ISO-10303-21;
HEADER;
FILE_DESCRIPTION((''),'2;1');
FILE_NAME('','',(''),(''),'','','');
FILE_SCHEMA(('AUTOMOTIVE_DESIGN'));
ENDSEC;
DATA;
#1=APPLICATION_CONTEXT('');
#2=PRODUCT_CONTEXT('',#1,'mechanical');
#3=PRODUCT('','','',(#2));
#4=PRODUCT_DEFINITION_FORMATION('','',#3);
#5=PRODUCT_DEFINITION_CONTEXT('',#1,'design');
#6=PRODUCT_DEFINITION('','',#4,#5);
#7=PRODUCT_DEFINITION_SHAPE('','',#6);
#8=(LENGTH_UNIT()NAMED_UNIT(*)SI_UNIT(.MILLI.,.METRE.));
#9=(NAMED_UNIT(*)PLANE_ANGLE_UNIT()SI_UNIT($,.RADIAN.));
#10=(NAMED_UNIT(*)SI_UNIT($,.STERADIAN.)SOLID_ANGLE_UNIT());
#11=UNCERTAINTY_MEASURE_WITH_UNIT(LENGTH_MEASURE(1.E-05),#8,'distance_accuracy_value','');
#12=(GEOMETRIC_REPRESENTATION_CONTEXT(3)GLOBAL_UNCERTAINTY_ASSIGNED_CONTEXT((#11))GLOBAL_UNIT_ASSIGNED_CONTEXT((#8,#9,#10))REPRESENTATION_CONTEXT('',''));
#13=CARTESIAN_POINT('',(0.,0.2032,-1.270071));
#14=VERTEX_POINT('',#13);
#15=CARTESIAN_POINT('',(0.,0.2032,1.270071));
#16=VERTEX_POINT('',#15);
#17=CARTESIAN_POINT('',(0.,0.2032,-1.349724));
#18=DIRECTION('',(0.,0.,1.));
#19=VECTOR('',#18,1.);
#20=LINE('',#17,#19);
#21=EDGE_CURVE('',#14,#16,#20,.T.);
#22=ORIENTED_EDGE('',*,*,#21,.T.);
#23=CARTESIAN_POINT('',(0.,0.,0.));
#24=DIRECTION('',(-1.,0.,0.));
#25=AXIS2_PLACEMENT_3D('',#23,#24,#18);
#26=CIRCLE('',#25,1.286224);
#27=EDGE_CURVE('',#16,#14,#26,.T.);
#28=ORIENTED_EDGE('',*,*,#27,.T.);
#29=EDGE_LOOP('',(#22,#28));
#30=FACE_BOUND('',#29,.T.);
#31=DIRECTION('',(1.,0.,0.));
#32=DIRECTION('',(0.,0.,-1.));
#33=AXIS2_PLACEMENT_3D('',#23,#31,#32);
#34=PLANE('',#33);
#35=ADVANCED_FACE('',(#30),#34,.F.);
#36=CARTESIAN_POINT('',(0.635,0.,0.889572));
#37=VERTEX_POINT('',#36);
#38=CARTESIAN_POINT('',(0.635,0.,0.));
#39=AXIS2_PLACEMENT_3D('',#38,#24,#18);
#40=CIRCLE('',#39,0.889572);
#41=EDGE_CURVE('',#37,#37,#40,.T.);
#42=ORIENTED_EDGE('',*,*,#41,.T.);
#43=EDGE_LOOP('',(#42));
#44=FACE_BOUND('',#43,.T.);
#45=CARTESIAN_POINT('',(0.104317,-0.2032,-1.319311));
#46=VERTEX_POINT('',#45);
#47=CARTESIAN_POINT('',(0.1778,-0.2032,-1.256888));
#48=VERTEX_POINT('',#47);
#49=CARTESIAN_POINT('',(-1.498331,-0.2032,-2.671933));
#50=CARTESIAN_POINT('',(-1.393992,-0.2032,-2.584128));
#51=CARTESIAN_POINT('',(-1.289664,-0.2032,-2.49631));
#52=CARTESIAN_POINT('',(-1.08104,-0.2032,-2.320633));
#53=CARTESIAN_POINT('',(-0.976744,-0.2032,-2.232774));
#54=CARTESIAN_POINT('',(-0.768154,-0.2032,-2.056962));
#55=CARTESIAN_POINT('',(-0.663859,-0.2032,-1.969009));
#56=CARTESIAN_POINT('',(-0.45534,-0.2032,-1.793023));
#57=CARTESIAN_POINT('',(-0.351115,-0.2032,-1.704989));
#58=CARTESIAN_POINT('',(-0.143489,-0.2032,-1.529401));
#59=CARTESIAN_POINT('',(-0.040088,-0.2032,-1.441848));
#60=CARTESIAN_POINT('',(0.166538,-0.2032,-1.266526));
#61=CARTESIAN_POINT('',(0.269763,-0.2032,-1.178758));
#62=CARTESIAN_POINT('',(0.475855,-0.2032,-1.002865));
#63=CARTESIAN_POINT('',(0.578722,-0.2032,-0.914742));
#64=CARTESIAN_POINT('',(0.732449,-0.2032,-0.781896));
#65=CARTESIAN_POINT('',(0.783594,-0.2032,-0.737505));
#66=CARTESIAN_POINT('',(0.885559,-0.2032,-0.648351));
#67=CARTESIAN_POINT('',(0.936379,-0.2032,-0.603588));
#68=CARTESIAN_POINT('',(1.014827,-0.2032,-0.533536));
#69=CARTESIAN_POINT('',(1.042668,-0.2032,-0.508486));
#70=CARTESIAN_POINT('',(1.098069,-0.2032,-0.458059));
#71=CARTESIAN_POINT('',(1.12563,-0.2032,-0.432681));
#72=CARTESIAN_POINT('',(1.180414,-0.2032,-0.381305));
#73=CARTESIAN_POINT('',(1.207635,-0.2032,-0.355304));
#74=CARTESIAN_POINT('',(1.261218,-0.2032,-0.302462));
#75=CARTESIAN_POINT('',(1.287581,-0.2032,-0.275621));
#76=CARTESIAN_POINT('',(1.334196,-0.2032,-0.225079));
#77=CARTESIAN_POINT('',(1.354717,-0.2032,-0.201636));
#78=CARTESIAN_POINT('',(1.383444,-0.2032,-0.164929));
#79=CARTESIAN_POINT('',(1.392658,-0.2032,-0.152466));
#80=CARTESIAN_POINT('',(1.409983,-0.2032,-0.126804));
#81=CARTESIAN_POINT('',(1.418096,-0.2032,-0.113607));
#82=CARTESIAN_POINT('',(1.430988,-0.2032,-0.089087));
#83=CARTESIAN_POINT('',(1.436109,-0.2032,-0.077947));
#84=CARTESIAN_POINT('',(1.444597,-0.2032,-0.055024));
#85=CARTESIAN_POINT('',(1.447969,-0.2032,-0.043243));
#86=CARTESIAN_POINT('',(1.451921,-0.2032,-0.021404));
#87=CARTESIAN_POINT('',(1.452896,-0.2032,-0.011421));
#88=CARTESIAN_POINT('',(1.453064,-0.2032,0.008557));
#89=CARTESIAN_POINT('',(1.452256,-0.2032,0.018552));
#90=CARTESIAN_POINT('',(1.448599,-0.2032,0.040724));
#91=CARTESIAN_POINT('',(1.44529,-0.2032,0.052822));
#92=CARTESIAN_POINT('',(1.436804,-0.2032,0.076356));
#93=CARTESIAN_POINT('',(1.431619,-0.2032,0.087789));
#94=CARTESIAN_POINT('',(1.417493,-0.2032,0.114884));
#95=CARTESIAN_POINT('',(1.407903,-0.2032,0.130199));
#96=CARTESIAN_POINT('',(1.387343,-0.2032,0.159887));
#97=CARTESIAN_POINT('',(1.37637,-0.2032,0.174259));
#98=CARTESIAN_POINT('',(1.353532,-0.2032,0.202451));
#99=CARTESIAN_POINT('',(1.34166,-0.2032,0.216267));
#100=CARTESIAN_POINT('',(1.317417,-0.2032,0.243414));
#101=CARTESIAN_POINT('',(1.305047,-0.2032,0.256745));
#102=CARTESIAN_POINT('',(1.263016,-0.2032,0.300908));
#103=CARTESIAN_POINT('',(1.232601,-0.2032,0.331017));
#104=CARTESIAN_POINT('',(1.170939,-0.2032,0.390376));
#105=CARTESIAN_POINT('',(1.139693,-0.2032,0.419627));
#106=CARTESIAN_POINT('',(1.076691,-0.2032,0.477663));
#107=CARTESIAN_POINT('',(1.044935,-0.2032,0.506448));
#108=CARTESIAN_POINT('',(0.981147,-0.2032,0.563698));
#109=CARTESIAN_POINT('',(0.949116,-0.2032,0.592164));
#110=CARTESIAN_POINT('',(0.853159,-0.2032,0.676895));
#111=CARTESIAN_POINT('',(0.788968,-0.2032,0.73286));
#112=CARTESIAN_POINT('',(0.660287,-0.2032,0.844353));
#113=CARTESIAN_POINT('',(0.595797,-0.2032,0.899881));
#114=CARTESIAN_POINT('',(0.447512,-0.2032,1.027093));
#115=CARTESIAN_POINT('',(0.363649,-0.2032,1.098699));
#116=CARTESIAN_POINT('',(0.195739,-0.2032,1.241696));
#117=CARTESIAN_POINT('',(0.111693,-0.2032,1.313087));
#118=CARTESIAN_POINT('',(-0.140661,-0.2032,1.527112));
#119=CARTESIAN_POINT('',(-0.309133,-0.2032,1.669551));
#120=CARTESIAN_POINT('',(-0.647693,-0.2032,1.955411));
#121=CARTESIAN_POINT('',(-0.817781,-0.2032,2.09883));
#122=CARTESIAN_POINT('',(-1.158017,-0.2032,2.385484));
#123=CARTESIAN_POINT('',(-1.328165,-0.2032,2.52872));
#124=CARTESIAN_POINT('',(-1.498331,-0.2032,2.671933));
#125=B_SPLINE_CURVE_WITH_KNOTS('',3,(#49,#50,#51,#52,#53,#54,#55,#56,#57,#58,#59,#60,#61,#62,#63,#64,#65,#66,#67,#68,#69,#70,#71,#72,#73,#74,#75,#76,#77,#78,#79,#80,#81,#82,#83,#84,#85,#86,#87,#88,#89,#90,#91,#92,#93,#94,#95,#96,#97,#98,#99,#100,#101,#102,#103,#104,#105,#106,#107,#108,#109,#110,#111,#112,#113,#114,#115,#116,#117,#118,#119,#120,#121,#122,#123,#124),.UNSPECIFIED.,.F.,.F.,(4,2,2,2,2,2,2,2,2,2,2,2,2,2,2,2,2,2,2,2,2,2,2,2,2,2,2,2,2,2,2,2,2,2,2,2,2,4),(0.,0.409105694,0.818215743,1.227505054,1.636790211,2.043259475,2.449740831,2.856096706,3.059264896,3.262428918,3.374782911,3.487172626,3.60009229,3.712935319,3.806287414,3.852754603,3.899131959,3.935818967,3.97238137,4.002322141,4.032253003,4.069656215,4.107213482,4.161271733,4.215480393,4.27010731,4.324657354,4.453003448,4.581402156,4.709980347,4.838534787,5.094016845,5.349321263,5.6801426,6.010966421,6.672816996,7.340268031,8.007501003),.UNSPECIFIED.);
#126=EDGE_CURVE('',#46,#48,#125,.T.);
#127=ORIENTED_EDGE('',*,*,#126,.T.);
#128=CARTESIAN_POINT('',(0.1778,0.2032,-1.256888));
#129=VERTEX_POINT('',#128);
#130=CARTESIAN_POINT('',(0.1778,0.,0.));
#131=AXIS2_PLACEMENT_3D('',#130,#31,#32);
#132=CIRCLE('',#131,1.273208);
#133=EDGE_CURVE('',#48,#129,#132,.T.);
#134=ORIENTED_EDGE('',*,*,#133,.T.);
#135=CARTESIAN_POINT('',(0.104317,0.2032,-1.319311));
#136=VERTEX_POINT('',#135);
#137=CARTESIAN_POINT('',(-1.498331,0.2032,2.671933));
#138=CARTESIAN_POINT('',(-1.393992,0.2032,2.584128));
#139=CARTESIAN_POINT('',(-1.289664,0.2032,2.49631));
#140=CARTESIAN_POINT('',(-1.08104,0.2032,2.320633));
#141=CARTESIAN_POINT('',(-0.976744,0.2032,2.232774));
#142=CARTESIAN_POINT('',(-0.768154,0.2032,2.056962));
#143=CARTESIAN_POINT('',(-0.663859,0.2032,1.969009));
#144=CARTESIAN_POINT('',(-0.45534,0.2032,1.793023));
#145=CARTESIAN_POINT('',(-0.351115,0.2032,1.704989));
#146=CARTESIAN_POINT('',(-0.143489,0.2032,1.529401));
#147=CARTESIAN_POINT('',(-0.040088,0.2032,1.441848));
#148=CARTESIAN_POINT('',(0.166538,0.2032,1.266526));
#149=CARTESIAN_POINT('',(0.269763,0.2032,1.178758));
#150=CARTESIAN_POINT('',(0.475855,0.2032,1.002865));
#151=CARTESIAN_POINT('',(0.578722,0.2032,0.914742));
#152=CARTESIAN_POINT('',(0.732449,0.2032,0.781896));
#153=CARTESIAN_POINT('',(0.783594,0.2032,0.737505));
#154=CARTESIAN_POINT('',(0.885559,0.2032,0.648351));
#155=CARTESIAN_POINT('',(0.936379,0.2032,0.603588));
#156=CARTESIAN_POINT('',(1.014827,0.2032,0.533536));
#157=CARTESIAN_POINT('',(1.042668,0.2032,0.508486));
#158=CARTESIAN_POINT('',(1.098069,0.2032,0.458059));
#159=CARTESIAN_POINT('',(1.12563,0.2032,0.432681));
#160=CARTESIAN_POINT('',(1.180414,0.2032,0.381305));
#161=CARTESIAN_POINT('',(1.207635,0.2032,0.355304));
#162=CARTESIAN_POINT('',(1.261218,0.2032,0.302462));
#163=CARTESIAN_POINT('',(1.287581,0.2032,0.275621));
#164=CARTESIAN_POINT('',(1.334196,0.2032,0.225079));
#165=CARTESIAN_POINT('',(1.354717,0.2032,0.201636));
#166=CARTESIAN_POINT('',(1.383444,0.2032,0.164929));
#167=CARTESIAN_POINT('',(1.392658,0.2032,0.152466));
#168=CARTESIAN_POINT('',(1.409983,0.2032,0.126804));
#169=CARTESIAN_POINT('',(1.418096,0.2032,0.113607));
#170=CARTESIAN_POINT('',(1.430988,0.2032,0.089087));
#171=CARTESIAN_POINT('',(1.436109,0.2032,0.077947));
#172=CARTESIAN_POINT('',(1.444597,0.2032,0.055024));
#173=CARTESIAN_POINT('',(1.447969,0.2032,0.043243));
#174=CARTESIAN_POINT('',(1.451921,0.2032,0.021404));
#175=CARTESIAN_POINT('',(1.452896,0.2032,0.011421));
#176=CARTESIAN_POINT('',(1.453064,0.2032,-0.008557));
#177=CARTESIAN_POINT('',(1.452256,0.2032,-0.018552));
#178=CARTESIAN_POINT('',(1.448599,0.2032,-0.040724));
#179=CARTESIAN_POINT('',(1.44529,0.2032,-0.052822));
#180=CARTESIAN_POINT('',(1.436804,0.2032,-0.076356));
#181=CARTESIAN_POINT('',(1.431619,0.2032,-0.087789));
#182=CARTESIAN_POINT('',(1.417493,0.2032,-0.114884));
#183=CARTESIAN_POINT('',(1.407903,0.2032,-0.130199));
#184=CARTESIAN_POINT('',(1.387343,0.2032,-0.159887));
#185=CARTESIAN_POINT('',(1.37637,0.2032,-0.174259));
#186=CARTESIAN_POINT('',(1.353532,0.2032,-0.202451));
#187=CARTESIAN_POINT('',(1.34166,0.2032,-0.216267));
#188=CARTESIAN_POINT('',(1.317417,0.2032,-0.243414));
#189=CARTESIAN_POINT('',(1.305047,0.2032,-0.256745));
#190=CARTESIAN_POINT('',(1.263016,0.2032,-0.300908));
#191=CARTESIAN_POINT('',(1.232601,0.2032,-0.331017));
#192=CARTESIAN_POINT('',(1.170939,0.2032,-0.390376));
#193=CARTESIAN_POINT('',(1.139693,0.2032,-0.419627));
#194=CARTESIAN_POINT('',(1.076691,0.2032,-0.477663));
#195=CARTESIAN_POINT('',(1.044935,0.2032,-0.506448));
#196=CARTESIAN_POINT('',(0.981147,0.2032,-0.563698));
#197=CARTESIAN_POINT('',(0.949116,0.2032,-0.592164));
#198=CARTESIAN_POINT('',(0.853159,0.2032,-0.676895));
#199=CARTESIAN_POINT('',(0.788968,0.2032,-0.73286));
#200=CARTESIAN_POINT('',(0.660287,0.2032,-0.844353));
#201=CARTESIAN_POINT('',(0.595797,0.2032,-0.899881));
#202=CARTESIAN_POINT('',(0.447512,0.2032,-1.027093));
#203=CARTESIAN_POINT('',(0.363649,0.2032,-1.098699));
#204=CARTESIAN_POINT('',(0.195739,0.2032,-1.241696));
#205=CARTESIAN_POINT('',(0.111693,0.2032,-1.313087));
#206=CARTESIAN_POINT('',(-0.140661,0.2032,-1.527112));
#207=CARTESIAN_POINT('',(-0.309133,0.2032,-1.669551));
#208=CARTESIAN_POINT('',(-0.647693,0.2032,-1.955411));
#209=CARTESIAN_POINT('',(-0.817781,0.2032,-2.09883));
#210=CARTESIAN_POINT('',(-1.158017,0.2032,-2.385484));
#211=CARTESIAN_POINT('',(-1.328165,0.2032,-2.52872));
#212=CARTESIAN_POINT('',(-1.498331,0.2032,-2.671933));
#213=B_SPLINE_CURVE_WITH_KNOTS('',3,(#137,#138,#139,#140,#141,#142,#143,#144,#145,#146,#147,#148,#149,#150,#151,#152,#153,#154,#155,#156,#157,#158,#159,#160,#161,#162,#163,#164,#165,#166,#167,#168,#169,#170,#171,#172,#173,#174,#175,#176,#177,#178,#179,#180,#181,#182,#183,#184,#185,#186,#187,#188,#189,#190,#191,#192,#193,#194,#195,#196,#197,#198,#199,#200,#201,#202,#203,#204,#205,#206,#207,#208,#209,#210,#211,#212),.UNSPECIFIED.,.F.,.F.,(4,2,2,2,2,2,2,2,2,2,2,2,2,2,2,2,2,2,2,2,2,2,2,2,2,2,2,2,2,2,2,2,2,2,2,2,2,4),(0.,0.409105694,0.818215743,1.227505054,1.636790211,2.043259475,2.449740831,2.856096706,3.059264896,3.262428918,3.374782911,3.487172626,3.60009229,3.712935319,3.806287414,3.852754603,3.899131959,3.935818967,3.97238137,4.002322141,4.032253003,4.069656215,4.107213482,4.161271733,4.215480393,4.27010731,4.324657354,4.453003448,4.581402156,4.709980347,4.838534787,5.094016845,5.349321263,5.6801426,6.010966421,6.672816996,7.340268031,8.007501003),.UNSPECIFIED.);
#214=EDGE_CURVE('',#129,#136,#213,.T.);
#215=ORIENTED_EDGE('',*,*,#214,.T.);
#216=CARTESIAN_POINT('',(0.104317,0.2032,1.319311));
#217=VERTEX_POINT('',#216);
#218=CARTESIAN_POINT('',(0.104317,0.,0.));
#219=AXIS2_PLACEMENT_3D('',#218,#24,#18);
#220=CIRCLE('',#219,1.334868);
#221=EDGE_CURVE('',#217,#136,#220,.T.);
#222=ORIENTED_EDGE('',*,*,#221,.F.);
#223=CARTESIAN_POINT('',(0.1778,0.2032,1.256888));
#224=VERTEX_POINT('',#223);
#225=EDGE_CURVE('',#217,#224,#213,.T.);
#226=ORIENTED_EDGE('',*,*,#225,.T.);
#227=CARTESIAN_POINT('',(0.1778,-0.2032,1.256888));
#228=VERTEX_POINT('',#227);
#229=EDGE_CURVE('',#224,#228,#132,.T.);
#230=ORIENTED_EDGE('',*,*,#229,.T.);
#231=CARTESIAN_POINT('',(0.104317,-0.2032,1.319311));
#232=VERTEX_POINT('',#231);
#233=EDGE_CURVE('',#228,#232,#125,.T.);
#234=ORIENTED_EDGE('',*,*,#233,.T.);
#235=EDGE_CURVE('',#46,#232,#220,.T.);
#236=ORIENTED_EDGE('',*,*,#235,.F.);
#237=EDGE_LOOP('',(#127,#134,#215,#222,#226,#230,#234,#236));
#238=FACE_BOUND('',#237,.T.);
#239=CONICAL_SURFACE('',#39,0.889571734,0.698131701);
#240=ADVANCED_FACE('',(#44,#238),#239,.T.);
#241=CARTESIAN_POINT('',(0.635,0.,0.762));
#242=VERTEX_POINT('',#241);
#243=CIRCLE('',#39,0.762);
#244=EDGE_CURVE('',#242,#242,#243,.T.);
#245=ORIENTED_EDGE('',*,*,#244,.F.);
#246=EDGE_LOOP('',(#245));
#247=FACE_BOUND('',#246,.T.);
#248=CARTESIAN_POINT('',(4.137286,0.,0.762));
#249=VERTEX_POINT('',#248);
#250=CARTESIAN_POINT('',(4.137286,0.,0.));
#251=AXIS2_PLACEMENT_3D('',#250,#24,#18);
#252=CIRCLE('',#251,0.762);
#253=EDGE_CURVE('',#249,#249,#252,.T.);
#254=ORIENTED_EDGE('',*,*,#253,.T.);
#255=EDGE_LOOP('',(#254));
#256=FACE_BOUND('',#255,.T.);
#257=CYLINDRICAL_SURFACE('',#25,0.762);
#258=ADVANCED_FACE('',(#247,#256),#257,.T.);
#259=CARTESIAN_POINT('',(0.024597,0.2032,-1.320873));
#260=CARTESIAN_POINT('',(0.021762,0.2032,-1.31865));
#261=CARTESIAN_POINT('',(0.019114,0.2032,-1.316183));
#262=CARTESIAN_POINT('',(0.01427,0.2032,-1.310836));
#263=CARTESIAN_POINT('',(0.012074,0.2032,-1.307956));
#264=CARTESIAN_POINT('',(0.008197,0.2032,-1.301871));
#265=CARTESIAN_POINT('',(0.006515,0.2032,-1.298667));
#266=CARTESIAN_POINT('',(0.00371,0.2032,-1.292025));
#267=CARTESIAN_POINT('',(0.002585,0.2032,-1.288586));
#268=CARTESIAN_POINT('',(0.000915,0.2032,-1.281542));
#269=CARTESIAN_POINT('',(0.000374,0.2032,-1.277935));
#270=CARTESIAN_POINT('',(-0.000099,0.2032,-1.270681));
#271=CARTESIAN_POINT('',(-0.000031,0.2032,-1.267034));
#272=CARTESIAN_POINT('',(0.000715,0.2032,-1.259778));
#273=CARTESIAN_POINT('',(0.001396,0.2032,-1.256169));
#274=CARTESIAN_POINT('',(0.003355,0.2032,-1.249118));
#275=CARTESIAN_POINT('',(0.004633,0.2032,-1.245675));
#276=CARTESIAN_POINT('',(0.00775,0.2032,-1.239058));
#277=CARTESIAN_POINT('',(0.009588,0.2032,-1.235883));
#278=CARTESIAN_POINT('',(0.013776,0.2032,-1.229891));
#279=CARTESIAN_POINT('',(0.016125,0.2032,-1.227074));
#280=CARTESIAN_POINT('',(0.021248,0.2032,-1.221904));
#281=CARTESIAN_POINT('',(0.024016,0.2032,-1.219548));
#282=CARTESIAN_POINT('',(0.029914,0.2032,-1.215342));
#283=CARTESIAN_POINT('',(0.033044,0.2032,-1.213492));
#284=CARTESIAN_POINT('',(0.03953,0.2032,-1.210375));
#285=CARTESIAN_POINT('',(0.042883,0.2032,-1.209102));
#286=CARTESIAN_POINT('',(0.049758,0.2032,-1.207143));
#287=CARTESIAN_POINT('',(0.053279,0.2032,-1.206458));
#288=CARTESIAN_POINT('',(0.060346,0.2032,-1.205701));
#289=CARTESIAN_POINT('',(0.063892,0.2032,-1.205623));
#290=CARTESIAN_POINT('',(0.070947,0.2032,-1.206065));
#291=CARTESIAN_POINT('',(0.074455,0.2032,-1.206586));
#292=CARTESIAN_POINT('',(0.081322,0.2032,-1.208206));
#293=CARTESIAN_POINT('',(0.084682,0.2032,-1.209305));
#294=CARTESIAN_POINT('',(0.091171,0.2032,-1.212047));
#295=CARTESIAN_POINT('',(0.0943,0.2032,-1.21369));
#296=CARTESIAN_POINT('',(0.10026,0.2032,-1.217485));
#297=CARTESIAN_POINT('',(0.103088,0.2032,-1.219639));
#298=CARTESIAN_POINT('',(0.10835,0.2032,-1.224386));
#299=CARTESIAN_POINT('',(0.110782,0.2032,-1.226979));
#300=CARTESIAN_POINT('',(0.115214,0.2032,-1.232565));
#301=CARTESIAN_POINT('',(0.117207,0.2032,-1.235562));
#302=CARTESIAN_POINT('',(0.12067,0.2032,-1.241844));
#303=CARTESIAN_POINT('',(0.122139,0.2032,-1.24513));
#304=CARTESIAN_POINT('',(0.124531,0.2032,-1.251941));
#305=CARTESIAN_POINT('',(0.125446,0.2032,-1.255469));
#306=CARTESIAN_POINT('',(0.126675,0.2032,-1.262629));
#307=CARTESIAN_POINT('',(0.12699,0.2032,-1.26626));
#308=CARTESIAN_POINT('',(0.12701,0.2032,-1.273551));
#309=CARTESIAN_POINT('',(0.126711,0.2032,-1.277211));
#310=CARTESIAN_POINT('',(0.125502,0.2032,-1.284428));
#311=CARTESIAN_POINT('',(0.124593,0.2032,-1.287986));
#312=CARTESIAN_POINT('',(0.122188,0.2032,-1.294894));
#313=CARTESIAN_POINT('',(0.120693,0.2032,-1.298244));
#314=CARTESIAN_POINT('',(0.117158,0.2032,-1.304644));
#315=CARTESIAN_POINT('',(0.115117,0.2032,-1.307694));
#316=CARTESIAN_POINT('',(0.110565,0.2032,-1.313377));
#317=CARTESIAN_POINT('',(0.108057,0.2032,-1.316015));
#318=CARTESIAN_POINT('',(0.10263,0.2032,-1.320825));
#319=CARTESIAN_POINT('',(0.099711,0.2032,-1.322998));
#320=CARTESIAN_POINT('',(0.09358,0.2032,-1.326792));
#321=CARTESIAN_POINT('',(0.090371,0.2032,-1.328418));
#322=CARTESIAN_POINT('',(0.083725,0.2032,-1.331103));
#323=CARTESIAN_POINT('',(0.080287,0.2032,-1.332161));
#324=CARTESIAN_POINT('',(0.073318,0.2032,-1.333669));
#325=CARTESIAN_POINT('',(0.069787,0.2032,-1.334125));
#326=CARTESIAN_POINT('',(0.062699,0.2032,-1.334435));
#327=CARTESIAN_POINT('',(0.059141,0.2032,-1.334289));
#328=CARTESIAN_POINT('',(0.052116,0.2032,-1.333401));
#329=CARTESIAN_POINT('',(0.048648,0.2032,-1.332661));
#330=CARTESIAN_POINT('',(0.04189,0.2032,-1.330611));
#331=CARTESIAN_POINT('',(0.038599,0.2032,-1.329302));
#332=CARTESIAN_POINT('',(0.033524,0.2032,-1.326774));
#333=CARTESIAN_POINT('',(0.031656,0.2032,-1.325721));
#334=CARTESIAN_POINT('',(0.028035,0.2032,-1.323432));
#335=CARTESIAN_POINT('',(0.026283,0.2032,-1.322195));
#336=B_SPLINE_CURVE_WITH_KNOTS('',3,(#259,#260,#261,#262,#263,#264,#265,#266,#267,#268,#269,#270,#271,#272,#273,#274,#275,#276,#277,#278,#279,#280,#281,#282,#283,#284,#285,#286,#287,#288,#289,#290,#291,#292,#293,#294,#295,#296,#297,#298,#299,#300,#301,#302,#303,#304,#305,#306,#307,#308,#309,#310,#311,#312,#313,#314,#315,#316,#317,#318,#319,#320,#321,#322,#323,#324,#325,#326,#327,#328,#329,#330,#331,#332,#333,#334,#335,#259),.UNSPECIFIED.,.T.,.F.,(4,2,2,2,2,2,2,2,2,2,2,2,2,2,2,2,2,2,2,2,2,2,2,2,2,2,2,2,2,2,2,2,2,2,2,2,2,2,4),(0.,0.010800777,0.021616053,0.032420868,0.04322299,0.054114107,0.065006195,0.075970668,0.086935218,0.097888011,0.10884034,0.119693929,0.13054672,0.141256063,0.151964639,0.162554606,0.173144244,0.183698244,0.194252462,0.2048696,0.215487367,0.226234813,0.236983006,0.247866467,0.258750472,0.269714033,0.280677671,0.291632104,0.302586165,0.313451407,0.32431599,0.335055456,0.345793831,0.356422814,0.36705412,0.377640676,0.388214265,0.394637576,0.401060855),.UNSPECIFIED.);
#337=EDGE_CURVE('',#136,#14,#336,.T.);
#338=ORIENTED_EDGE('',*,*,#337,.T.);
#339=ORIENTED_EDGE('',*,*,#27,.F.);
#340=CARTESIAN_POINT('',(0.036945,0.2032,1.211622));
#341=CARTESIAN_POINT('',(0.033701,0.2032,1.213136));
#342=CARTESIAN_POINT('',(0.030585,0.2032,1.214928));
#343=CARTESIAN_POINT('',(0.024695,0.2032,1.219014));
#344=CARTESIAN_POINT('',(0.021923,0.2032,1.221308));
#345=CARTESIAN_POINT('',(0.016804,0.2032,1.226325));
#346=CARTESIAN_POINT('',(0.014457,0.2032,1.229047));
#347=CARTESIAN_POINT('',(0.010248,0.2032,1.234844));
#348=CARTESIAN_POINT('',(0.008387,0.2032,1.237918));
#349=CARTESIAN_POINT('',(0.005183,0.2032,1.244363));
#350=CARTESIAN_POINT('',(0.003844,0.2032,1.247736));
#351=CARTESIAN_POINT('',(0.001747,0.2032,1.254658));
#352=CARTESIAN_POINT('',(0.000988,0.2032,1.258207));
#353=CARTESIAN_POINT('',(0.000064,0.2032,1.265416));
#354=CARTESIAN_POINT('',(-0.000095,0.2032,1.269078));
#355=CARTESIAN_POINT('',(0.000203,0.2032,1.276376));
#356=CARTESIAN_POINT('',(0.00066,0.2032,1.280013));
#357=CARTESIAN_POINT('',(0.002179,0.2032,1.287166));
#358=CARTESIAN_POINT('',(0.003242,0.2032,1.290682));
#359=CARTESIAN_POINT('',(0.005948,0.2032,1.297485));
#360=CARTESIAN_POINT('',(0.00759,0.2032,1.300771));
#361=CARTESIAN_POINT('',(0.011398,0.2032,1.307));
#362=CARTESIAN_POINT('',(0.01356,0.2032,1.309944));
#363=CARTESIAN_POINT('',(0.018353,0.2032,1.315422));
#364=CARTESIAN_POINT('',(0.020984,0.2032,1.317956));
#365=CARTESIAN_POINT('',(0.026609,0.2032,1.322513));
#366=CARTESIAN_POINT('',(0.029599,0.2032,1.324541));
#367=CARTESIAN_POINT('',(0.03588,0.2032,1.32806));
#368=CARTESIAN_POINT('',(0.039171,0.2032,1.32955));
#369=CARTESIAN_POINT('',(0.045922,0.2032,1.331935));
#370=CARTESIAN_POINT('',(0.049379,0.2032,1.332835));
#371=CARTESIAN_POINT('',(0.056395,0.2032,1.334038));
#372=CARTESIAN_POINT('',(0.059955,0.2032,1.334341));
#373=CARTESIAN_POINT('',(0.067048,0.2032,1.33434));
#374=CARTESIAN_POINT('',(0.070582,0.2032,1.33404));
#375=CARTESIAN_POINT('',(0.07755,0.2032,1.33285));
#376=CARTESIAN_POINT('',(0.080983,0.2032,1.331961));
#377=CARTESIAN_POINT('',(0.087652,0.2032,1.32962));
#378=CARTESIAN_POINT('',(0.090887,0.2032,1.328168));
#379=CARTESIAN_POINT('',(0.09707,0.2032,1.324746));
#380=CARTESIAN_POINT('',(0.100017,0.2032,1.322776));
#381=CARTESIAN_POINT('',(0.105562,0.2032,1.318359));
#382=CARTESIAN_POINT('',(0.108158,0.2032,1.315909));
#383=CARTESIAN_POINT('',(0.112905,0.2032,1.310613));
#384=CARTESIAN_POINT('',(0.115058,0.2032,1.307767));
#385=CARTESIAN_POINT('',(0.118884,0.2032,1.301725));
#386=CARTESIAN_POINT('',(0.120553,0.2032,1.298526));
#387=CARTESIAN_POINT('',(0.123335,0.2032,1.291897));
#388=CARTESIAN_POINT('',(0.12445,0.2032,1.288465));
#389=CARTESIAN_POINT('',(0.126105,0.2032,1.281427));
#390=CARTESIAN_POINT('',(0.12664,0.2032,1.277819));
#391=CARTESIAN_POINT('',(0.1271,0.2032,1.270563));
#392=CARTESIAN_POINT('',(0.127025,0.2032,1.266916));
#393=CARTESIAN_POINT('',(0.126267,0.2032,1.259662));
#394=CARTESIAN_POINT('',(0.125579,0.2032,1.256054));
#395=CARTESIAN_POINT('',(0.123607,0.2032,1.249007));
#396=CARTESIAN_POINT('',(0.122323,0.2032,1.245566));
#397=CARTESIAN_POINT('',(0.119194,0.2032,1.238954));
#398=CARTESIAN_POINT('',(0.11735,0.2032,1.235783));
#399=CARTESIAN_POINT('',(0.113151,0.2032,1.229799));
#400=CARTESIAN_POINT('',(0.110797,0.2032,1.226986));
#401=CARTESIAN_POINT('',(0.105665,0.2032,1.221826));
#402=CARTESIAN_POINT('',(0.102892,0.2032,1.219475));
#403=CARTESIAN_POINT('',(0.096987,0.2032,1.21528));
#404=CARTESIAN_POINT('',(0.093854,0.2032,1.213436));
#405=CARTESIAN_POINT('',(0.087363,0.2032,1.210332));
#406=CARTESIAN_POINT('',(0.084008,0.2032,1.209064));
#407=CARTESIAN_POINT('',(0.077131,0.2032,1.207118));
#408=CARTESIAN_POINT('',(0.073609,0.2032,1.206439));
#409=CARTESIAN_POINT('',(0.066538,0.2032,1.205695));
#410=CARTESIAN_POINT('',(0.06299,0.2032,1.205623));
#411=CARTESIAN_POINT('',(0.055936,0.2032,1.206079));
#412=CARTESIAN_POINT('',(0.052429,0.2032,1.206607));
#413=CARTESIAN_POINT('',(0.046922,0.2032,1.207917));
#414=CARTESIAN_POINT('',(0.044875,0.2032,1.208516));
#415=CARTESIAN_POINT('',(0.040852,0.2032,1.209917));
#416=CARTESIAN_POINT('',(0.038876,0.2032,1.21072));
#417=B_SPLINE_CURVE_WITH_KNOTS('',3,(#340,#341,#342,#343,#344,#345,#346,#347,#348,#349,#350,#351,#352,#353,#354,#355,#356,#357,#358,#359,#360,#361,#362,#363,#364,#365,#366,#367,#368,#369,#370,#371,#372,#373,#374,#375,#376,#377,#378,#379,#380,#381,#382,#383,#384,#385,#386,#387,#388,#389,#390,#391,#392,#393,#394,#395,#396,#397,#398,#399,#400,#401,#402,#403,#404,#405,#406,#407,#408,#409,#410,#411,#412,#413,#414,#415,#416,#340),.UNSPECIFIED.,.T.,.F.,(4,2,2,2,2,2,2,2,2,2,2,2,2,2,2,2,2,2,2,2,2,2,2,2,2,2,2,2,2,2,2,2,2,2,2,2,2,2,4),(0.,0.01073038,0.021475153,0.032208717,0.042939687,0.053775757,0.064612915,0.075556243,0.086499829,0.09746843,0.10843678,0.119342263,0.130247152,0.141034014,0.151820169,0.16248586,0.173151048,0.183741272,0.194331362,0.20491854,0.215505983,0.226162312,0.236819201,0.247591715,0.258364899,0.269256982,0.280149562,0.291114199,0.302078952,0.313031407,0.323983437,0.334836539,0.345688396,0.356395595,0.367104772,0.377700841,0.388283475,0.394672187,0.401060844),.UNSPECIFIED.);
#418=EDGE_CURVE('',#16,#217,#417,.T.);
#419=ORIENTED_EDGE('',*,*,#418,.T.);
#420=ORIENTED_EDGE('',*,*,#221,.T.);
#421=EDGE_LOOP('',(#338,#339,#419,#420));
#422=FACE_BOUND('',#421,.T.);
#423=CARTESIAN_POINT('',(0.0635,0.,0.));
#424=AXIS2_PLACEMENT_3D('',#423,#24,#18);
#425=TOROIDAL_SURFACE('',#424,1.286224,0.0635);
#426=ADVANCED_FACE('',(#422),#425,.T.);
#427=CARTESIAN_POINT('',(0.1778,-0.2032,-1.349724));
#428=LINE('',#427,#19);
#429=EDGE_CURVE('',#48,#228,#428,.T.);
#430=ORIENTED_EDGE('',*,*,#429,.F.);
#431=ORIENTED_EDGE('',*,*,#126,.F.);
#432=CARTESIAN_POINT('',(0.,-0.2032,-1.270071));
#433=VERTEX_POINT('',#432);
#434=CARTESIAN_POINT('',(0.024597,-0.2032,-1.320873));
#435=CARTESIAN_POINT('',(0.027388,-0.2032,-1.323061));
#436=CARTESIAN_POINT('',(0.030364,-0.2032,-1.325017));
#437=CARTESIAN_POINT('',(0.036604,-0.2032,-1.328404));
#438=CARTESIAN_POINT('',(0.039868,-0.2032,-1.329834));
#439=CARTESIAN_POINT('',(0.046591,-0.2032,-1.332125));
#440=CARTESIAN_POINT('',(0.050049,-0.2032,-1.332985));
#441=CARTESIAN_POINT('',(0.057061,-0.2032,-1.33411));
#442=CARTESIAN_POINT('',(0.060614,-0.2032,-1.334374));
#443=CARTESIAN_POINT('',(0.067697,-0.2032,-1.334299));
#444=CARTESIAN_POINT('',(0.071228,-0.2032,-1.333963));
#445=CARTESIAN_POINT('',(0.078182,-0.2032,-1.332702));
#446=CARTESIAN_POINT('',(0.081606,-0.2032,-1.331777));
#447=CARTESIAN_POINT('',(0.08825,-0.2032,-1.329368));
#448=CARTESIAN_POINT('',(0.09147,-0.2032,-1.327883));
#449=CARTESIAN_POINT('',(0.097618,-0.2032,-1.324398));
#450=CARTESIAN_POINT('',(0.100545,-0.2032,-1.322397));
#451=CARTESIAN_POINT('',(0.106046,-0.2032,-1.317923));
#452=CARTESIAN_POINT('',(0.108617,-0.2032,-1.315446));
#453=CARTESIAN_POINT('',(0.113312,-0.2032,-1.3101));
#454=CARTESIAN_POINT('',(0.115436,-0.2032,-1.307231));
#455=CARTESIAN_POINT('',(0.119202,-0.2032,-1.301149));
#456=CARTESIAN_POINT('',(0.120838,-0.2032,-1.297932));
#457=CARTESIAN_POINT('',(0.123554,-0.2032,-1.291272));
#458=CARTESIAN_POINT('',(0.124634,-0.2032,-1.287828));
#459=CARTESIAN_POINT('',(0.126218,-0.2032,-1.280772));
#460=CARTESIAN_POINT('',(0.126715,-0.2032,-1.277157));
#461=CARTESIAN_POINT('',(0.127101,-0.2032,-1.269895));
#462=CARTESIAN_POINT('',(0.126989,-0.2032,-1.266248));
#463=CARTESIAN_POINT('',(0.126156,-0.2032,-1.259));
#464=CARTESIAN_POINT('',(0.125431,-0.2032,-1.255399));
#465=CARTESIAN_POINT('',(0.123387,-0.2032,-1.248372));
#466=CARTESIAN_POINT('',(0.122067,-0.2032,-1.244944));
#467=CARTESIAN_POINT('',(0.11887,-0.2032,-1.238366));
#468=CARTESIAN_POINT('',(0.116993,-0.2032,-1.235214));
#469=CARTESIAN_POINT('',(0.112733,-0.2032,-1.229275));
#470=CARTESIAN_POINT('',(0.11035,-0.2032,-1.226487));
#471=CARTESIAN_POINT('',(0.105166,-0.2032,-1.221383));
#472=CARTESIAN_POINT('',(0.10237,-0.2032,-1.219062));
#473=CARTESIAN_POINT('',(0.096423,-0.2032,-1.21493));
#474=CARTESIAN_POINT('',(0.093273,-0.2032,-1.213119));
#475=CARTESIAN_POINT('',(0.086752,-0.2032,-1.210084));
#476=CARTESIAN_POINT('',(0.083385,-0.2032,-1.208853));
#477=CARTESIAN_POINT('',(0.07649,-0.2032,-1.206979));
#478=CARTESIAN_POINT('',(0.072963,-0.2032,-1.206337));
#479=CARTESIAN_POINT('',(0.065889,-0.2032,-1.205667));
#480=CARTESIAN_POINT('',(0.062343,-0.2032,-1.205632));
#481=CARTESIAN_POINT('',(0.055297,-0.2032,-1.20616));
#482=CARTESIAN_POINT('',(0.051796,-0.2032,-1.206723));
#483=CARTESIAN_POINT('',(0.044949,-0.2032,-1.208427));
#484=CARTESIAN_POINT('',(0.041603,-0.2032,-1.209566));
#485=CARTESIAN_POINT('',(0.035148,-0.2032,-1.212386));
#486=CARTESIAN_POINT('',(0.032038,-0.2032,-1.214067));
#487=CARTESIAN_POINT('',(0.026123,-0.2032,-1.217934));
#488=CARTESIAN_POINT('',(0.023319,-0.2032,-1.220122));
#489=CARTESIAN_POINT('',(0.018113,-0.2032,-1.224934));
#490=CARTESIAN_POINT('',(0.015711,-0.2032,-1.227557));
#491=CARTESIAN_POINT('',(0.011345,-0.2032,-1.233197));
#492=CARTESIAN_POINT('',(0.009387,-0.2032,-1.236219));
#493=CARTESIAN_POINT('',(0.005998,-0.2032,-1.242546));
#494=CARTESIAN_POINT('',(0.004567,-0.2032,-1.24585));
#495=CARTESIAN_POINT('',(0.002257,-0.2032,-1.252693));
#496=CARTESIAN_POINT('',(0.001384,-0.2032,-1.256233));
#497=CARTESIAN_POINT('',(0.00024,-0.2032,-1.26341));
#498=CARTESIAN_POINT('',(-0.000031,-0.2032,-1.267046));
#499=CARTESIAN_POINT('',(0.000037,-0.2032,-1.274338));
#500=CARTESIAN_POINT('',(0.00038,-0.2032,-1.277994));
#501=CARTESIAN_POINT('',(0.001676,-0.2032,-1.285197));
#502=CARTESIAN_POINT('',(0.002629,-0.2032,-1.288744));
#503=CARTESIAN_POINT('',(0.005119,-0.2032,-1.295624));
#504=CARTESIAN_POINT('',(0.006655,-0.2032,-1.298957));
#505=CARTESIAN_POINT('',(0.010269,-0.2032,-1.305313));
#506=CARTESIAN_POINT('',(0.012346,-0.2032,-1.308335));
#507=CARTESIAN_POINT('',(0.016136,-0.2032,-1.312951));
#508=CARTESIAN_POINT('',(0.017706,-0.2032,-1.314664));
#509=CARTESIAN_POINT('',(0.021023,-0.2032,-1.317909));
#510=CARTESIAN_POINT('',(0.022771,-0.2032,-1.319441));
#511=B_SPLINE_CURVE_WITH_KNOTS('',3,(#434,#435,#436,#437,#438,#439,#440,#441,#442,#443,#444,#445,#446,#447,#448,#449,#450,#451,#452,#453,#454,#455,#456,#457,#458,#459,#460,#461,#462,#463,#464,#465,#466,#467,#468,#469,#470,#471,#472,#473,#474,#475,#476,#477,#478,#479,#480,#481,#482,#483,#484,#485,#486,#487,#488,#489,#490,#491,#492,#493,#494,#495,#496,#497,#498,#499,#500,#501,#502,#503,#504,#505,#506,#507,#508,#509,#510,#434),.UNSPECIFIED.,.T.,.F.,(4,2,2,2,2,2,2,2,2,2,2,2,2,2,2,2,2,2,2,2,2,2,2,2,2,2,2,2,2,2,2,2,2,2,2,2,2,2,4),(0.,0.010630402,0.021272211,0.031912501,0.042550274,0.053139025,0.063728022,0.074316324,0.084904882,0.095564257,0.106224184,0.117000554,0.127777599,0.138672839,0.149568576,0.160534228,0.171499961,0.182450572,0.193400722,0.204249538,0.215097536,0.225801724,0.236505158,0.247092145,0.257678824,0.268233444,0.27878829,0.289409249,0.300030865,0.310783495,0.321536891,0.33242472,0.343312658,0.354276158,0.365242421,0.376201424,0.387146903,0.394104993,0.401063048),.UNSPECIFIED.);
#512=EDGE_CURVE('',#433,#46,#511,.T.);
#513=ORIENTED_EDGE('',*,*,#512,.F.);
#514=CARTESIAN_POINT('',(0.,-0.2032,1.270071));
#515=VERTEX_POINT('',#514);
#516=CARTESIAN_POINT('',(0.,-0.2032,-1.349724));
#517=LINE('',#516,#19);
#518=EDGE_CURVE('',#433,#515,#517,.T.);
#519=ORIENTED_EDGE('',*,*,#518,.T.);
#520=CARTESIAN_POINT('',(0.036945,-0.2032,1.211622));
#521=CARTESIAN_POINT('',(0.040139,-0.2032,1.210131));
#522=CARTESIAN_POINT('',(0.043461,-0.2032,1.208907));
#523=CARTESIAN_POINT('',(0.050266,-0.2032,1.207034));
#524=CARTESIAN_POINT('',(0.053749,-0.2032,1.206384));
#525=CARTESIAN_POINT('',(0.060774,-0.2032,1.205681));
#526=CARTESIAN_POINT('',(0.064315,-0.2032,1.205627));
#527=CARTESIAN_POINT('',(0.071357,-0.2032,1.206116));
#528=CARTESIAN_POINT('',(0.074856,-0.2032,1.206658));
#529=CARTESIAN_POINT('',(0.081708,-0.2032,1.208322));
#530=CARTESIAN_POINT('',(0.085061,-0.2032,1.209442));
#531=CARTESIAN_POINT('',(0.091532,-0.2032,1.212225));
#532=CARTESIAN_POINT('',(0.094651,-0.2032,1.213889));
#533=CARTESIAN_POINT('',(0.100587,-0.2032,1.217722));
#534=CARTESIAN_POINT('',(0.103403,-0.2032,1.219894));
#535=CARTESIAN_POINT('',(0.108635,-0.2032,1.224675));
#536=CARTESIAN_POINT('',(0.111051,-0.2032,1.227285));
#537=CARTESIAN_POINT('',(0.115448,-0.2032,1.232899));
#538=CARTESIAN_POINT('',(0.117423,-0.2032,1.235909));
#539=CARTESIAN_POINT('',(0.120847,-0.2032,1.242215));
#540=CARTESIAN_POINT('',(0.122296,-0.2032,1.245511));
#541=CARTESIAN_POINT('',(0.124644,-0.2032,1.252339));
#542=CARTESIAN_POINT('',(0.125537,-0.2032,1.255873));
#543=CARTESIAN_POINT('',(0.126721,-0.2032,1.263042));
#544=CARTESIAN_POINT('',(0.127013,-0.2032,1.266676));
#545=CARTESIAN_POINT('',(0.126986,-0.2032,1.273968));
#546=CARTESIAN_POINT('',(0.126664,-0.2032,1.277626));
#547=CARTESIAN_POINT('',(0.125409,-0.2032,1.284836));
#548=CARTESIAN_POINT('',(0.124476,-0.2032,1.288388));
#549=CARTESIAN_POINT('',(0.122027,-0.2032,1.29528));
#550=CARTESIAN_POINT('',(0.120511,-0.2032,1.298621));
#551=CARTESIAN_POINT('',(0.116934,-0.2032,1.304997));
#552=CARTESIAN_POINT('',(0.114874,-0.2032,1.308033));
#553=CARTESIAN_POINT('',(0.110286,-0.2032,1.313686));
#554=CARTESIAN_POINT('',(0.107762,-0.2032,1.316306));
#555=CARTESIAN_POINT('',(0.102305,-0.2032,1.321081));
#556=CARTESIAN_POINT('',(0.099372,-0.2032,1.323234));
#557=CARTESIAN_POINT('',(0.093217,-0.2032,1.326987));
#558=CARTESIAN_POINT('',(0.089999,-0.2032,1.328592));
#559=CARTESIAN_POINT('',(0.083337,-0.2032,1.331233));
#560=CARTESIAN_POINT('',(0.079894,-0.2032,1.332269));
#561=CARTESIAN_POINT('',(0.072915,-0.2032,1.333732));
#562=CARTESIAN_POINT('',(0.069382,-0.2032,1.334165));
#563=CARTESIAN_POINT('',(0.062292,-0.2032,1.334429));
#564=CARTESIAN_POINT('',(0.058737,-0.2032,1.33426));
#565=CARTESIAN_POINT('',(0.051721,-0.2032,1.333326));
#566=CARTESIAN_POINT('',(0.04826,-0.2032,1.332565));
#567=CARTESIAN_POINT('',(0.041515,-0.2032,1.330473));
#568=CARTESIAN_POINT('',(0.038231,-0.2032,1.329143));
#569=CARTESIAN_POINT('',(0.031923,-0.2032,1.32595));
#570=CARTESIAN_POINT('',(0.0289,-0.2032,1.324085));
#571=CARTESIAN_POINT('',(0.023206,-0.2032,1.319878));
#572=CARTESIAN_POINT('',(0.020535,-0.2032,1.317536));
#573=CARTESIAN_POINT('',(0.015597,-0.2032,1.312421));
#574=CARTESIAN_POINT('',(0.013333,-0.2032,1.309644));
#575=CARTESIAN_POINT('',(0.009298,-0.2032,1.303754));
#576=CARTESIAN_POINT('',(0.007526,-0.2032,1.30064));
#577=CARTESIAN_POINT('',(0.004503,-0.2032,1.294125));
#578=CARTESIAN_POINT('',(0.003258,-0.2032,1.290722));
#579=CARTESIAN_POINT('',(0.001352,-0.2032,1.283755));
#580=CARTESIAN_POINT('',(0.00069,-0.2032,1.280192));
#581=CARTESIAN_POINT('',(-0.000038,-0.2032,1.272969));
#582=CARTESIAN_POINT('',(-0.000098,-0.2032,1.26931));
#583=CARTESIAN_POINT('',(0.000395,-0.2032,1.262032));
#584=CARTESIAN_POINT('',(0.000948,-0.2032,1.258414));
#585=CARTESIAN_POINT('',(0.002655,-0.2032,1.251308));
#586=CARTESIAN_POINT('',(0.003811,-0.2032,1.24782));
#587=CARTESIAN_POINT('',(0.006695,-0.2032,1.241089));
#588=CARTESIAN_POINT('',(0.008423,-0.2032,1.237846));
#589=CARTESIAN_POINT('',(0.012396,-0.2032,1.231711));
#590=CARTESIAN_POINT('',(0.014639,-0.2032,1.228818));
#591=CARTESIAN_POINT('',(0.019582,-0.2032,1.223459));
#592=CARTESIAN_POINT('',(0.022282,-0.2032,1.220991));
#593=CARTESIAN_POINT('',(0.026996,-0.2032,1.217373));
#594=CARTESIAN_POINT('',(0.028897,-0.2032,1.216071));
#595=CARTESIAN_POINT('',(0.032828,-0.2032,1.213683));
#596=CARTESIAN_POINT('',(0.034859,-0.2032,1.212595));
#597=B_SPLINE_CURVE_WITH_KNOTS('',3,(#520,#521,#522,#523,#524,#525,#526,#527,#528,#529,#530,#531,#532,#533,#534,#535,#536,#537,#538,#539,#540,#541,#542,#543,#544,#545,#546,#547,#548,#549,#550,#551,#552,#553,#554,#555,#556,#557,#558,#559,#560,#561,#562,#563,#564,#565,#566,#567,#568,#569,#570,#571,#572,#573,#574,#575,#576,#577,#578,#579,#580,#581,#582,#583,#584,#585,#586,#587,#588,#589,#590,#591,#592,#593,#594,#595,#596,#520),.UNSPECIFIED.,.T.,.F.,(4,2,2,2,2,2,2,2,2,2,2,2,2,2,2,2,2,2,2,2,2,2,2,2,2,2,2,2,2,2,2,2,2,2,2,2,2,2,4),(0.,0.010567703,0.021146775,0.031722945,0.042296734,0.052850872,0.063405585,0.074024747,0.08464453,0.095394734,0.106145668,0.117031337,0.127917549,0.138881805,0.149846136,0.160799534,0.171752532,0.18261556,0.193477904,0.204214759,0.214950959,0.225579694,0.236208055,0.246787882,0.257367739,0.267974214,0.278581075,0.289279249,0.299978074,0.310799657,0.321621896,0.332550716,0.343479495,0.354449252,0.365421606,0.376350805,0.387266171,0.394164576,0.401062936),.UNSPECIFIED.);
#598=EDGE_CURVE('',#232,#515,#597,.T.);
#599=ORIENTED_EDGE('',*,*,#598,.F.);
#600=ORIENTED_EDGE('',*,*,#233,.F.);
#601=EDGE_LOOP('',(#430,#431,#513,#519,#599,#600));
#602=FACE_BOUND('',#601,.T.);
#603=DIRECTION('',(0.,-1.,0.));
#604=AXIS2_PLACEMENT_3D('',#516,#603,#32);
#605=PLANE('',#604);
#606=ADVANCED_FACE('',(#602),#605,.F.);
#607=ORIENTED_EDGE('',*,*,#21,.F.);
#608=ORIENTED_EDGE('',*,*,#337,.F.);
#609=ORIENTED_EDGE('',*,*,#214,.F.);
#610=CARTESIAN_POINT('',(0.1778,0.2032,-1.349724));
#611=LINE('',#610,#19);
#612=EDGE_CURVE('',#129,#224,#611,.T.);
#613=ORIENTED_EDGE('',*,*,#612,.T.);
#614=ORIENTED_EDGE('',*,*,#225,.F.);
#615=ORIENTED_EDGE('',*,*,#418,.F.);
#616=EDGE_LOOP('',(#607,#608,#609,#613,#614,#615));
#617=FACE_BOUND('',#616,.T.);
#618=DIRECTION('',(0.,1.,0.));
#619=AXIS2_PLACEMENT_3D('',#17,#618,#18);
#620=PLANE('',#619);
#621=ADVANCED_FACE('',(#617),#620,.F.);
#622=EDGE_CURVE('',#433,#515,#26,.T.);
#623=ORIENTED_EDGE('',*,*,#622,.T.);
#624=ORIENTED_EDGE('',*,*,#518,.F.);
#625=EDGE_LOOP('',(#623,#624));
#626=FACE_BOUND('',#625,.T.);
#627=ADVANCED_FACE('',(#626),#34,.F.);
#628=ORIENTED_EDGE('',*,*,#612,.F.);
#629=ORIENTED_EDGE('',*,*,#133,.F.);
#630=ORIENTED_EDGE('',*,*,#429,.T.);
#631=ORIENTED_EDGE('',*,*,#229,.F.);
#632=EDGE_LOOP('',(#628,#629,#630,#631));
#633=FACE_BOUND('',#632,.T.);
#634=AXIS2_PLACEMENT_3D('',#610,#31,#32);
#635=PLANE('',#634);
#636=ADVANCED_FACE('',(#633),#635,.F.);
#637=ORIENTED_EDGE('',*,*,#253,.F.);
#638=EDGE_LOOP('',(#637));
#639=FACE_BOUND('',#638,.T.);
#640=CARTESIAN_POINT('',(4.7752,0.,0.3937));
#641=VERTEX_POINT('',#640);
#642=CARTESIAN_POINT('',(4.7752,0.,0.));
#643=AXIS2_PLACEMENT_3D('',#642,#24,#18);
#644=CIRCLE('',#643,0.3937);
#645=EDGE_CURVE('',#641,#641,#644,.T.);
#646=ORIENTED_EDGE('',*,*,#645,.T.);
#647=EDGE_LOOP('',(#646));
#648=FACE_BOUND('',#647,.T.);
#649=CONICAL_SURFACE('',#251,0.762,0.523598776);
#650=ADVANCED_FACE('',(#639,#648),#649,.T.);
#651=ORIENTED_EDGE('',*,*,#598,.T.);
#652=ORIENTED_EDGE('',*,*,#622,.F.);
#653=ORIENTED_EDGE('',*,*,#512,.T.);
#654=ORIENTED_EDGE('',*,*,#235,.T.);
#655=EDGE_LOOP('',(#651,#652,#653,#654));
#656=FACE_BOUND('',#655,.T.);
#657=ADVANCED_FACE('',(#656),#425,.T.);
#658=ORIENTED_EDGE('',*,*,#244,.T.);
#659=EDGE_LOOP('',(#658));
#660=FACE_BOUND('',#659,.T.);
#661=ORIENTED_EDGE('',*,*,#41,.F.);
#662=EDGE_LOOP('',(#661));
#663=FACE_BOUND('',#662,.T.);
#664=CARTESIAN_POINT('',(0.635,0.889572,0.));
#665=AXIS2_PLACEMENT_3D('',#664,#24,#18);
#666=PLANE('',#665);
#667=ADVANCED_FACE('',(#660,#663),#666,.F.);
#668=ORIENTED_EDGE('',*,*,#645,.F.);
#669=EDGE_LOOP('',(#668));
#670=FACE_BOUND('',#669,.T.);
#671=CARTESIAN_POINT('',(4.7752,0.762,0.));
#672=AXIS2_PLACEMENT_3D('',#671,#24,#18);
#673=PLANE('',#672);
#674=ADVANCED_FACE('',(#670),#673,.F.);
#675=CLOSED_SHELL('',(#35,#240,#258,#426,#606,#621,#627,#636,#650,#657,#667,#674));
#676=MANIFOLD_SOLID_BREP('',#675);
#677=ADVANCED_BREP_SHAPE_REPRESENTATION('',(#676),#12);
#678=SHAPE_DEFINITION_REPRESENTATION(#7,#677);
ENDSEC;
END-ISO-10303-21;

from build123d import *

# Parameters (mm, degrees)
SLOT_CUT_EXTRUDE1_DEPTH      = 6.14257176
SLOT_CUT_EXTRUDE1_DEPTH_BACK = 6.14257176
SKETCH2_W                    = 0.1778
SKETCH2_H                    = 0.4064


with BuildPart() as part:
    # Sketch1 → base-Revolve (revolve)
    with BuildSketch(Plane.XY, mode=Mode.PRIVATE) as base_revolve_sk:
        with BuildLine():
            Line((0, 0), (0, 1.286223811))
            ThreePointArc((0, 1.286223811), (0.03666374, 1.343774355), (0.104317013, 1.334867633))
            Line((0.104317013, 1.334867633), (0.635, 0.889571734))
            Line((0.635, 0.889571734), (0.635, 0.762))
            Line((0.635, 0.762), (4.7752, 0.762))
            Line((4.7752, 0.762), (4.7752, 0))
            Line((4.7752, 0), (0, 0))
        make_face()
    revolve(base_revolve_sk.sketch.rotate(Axis((0, 0, 0), (1, 0, 0)), 90), axis=Axis((0, 0, 0), (1, 0, 0)))

    # Sketch2 → slot_Cut-Extrude1 (cut, two sides: drawn at the far end of the back side and taken through both)
    with BuildSketch(Plane.XY.offset(-SLOT_CUT_EXTRUDE1_DEPTH_BACK)):
        with Locations((0.0889, 0)):
            Rectangle(SKETCH2_W, SKETCH2_H)
    extrude(amount=SLOT_CUT_EXTRUDE1_DEPTH + SLOT_CUT_EXTRUDE1_DEPTH_BACK, mode=Mode.SUBTRACT)

    # Sketch8 → point_Cut-Revolve1 (revolve, cut)
    with BuildSketch(Plane.XY, mode=Mode.PRIVATE) as point_cut_revolve1_sk:
        Polygon((4.7752, 0), (5.2832, 0), (5.2832, 1.27), (4.137285688, 1.27), (4.137285688, 0.762), (4.7752, 0.3937), align=None)
    revolve(point_cut_revolve1_sk.sketch.rotate(Axis((0, 0, 0), (1, 0, 0)), 90), axis=Axis((0, 0, 0), (1, 0, 0)), mode=Mode.SUBTRACT)


solid = part.part
